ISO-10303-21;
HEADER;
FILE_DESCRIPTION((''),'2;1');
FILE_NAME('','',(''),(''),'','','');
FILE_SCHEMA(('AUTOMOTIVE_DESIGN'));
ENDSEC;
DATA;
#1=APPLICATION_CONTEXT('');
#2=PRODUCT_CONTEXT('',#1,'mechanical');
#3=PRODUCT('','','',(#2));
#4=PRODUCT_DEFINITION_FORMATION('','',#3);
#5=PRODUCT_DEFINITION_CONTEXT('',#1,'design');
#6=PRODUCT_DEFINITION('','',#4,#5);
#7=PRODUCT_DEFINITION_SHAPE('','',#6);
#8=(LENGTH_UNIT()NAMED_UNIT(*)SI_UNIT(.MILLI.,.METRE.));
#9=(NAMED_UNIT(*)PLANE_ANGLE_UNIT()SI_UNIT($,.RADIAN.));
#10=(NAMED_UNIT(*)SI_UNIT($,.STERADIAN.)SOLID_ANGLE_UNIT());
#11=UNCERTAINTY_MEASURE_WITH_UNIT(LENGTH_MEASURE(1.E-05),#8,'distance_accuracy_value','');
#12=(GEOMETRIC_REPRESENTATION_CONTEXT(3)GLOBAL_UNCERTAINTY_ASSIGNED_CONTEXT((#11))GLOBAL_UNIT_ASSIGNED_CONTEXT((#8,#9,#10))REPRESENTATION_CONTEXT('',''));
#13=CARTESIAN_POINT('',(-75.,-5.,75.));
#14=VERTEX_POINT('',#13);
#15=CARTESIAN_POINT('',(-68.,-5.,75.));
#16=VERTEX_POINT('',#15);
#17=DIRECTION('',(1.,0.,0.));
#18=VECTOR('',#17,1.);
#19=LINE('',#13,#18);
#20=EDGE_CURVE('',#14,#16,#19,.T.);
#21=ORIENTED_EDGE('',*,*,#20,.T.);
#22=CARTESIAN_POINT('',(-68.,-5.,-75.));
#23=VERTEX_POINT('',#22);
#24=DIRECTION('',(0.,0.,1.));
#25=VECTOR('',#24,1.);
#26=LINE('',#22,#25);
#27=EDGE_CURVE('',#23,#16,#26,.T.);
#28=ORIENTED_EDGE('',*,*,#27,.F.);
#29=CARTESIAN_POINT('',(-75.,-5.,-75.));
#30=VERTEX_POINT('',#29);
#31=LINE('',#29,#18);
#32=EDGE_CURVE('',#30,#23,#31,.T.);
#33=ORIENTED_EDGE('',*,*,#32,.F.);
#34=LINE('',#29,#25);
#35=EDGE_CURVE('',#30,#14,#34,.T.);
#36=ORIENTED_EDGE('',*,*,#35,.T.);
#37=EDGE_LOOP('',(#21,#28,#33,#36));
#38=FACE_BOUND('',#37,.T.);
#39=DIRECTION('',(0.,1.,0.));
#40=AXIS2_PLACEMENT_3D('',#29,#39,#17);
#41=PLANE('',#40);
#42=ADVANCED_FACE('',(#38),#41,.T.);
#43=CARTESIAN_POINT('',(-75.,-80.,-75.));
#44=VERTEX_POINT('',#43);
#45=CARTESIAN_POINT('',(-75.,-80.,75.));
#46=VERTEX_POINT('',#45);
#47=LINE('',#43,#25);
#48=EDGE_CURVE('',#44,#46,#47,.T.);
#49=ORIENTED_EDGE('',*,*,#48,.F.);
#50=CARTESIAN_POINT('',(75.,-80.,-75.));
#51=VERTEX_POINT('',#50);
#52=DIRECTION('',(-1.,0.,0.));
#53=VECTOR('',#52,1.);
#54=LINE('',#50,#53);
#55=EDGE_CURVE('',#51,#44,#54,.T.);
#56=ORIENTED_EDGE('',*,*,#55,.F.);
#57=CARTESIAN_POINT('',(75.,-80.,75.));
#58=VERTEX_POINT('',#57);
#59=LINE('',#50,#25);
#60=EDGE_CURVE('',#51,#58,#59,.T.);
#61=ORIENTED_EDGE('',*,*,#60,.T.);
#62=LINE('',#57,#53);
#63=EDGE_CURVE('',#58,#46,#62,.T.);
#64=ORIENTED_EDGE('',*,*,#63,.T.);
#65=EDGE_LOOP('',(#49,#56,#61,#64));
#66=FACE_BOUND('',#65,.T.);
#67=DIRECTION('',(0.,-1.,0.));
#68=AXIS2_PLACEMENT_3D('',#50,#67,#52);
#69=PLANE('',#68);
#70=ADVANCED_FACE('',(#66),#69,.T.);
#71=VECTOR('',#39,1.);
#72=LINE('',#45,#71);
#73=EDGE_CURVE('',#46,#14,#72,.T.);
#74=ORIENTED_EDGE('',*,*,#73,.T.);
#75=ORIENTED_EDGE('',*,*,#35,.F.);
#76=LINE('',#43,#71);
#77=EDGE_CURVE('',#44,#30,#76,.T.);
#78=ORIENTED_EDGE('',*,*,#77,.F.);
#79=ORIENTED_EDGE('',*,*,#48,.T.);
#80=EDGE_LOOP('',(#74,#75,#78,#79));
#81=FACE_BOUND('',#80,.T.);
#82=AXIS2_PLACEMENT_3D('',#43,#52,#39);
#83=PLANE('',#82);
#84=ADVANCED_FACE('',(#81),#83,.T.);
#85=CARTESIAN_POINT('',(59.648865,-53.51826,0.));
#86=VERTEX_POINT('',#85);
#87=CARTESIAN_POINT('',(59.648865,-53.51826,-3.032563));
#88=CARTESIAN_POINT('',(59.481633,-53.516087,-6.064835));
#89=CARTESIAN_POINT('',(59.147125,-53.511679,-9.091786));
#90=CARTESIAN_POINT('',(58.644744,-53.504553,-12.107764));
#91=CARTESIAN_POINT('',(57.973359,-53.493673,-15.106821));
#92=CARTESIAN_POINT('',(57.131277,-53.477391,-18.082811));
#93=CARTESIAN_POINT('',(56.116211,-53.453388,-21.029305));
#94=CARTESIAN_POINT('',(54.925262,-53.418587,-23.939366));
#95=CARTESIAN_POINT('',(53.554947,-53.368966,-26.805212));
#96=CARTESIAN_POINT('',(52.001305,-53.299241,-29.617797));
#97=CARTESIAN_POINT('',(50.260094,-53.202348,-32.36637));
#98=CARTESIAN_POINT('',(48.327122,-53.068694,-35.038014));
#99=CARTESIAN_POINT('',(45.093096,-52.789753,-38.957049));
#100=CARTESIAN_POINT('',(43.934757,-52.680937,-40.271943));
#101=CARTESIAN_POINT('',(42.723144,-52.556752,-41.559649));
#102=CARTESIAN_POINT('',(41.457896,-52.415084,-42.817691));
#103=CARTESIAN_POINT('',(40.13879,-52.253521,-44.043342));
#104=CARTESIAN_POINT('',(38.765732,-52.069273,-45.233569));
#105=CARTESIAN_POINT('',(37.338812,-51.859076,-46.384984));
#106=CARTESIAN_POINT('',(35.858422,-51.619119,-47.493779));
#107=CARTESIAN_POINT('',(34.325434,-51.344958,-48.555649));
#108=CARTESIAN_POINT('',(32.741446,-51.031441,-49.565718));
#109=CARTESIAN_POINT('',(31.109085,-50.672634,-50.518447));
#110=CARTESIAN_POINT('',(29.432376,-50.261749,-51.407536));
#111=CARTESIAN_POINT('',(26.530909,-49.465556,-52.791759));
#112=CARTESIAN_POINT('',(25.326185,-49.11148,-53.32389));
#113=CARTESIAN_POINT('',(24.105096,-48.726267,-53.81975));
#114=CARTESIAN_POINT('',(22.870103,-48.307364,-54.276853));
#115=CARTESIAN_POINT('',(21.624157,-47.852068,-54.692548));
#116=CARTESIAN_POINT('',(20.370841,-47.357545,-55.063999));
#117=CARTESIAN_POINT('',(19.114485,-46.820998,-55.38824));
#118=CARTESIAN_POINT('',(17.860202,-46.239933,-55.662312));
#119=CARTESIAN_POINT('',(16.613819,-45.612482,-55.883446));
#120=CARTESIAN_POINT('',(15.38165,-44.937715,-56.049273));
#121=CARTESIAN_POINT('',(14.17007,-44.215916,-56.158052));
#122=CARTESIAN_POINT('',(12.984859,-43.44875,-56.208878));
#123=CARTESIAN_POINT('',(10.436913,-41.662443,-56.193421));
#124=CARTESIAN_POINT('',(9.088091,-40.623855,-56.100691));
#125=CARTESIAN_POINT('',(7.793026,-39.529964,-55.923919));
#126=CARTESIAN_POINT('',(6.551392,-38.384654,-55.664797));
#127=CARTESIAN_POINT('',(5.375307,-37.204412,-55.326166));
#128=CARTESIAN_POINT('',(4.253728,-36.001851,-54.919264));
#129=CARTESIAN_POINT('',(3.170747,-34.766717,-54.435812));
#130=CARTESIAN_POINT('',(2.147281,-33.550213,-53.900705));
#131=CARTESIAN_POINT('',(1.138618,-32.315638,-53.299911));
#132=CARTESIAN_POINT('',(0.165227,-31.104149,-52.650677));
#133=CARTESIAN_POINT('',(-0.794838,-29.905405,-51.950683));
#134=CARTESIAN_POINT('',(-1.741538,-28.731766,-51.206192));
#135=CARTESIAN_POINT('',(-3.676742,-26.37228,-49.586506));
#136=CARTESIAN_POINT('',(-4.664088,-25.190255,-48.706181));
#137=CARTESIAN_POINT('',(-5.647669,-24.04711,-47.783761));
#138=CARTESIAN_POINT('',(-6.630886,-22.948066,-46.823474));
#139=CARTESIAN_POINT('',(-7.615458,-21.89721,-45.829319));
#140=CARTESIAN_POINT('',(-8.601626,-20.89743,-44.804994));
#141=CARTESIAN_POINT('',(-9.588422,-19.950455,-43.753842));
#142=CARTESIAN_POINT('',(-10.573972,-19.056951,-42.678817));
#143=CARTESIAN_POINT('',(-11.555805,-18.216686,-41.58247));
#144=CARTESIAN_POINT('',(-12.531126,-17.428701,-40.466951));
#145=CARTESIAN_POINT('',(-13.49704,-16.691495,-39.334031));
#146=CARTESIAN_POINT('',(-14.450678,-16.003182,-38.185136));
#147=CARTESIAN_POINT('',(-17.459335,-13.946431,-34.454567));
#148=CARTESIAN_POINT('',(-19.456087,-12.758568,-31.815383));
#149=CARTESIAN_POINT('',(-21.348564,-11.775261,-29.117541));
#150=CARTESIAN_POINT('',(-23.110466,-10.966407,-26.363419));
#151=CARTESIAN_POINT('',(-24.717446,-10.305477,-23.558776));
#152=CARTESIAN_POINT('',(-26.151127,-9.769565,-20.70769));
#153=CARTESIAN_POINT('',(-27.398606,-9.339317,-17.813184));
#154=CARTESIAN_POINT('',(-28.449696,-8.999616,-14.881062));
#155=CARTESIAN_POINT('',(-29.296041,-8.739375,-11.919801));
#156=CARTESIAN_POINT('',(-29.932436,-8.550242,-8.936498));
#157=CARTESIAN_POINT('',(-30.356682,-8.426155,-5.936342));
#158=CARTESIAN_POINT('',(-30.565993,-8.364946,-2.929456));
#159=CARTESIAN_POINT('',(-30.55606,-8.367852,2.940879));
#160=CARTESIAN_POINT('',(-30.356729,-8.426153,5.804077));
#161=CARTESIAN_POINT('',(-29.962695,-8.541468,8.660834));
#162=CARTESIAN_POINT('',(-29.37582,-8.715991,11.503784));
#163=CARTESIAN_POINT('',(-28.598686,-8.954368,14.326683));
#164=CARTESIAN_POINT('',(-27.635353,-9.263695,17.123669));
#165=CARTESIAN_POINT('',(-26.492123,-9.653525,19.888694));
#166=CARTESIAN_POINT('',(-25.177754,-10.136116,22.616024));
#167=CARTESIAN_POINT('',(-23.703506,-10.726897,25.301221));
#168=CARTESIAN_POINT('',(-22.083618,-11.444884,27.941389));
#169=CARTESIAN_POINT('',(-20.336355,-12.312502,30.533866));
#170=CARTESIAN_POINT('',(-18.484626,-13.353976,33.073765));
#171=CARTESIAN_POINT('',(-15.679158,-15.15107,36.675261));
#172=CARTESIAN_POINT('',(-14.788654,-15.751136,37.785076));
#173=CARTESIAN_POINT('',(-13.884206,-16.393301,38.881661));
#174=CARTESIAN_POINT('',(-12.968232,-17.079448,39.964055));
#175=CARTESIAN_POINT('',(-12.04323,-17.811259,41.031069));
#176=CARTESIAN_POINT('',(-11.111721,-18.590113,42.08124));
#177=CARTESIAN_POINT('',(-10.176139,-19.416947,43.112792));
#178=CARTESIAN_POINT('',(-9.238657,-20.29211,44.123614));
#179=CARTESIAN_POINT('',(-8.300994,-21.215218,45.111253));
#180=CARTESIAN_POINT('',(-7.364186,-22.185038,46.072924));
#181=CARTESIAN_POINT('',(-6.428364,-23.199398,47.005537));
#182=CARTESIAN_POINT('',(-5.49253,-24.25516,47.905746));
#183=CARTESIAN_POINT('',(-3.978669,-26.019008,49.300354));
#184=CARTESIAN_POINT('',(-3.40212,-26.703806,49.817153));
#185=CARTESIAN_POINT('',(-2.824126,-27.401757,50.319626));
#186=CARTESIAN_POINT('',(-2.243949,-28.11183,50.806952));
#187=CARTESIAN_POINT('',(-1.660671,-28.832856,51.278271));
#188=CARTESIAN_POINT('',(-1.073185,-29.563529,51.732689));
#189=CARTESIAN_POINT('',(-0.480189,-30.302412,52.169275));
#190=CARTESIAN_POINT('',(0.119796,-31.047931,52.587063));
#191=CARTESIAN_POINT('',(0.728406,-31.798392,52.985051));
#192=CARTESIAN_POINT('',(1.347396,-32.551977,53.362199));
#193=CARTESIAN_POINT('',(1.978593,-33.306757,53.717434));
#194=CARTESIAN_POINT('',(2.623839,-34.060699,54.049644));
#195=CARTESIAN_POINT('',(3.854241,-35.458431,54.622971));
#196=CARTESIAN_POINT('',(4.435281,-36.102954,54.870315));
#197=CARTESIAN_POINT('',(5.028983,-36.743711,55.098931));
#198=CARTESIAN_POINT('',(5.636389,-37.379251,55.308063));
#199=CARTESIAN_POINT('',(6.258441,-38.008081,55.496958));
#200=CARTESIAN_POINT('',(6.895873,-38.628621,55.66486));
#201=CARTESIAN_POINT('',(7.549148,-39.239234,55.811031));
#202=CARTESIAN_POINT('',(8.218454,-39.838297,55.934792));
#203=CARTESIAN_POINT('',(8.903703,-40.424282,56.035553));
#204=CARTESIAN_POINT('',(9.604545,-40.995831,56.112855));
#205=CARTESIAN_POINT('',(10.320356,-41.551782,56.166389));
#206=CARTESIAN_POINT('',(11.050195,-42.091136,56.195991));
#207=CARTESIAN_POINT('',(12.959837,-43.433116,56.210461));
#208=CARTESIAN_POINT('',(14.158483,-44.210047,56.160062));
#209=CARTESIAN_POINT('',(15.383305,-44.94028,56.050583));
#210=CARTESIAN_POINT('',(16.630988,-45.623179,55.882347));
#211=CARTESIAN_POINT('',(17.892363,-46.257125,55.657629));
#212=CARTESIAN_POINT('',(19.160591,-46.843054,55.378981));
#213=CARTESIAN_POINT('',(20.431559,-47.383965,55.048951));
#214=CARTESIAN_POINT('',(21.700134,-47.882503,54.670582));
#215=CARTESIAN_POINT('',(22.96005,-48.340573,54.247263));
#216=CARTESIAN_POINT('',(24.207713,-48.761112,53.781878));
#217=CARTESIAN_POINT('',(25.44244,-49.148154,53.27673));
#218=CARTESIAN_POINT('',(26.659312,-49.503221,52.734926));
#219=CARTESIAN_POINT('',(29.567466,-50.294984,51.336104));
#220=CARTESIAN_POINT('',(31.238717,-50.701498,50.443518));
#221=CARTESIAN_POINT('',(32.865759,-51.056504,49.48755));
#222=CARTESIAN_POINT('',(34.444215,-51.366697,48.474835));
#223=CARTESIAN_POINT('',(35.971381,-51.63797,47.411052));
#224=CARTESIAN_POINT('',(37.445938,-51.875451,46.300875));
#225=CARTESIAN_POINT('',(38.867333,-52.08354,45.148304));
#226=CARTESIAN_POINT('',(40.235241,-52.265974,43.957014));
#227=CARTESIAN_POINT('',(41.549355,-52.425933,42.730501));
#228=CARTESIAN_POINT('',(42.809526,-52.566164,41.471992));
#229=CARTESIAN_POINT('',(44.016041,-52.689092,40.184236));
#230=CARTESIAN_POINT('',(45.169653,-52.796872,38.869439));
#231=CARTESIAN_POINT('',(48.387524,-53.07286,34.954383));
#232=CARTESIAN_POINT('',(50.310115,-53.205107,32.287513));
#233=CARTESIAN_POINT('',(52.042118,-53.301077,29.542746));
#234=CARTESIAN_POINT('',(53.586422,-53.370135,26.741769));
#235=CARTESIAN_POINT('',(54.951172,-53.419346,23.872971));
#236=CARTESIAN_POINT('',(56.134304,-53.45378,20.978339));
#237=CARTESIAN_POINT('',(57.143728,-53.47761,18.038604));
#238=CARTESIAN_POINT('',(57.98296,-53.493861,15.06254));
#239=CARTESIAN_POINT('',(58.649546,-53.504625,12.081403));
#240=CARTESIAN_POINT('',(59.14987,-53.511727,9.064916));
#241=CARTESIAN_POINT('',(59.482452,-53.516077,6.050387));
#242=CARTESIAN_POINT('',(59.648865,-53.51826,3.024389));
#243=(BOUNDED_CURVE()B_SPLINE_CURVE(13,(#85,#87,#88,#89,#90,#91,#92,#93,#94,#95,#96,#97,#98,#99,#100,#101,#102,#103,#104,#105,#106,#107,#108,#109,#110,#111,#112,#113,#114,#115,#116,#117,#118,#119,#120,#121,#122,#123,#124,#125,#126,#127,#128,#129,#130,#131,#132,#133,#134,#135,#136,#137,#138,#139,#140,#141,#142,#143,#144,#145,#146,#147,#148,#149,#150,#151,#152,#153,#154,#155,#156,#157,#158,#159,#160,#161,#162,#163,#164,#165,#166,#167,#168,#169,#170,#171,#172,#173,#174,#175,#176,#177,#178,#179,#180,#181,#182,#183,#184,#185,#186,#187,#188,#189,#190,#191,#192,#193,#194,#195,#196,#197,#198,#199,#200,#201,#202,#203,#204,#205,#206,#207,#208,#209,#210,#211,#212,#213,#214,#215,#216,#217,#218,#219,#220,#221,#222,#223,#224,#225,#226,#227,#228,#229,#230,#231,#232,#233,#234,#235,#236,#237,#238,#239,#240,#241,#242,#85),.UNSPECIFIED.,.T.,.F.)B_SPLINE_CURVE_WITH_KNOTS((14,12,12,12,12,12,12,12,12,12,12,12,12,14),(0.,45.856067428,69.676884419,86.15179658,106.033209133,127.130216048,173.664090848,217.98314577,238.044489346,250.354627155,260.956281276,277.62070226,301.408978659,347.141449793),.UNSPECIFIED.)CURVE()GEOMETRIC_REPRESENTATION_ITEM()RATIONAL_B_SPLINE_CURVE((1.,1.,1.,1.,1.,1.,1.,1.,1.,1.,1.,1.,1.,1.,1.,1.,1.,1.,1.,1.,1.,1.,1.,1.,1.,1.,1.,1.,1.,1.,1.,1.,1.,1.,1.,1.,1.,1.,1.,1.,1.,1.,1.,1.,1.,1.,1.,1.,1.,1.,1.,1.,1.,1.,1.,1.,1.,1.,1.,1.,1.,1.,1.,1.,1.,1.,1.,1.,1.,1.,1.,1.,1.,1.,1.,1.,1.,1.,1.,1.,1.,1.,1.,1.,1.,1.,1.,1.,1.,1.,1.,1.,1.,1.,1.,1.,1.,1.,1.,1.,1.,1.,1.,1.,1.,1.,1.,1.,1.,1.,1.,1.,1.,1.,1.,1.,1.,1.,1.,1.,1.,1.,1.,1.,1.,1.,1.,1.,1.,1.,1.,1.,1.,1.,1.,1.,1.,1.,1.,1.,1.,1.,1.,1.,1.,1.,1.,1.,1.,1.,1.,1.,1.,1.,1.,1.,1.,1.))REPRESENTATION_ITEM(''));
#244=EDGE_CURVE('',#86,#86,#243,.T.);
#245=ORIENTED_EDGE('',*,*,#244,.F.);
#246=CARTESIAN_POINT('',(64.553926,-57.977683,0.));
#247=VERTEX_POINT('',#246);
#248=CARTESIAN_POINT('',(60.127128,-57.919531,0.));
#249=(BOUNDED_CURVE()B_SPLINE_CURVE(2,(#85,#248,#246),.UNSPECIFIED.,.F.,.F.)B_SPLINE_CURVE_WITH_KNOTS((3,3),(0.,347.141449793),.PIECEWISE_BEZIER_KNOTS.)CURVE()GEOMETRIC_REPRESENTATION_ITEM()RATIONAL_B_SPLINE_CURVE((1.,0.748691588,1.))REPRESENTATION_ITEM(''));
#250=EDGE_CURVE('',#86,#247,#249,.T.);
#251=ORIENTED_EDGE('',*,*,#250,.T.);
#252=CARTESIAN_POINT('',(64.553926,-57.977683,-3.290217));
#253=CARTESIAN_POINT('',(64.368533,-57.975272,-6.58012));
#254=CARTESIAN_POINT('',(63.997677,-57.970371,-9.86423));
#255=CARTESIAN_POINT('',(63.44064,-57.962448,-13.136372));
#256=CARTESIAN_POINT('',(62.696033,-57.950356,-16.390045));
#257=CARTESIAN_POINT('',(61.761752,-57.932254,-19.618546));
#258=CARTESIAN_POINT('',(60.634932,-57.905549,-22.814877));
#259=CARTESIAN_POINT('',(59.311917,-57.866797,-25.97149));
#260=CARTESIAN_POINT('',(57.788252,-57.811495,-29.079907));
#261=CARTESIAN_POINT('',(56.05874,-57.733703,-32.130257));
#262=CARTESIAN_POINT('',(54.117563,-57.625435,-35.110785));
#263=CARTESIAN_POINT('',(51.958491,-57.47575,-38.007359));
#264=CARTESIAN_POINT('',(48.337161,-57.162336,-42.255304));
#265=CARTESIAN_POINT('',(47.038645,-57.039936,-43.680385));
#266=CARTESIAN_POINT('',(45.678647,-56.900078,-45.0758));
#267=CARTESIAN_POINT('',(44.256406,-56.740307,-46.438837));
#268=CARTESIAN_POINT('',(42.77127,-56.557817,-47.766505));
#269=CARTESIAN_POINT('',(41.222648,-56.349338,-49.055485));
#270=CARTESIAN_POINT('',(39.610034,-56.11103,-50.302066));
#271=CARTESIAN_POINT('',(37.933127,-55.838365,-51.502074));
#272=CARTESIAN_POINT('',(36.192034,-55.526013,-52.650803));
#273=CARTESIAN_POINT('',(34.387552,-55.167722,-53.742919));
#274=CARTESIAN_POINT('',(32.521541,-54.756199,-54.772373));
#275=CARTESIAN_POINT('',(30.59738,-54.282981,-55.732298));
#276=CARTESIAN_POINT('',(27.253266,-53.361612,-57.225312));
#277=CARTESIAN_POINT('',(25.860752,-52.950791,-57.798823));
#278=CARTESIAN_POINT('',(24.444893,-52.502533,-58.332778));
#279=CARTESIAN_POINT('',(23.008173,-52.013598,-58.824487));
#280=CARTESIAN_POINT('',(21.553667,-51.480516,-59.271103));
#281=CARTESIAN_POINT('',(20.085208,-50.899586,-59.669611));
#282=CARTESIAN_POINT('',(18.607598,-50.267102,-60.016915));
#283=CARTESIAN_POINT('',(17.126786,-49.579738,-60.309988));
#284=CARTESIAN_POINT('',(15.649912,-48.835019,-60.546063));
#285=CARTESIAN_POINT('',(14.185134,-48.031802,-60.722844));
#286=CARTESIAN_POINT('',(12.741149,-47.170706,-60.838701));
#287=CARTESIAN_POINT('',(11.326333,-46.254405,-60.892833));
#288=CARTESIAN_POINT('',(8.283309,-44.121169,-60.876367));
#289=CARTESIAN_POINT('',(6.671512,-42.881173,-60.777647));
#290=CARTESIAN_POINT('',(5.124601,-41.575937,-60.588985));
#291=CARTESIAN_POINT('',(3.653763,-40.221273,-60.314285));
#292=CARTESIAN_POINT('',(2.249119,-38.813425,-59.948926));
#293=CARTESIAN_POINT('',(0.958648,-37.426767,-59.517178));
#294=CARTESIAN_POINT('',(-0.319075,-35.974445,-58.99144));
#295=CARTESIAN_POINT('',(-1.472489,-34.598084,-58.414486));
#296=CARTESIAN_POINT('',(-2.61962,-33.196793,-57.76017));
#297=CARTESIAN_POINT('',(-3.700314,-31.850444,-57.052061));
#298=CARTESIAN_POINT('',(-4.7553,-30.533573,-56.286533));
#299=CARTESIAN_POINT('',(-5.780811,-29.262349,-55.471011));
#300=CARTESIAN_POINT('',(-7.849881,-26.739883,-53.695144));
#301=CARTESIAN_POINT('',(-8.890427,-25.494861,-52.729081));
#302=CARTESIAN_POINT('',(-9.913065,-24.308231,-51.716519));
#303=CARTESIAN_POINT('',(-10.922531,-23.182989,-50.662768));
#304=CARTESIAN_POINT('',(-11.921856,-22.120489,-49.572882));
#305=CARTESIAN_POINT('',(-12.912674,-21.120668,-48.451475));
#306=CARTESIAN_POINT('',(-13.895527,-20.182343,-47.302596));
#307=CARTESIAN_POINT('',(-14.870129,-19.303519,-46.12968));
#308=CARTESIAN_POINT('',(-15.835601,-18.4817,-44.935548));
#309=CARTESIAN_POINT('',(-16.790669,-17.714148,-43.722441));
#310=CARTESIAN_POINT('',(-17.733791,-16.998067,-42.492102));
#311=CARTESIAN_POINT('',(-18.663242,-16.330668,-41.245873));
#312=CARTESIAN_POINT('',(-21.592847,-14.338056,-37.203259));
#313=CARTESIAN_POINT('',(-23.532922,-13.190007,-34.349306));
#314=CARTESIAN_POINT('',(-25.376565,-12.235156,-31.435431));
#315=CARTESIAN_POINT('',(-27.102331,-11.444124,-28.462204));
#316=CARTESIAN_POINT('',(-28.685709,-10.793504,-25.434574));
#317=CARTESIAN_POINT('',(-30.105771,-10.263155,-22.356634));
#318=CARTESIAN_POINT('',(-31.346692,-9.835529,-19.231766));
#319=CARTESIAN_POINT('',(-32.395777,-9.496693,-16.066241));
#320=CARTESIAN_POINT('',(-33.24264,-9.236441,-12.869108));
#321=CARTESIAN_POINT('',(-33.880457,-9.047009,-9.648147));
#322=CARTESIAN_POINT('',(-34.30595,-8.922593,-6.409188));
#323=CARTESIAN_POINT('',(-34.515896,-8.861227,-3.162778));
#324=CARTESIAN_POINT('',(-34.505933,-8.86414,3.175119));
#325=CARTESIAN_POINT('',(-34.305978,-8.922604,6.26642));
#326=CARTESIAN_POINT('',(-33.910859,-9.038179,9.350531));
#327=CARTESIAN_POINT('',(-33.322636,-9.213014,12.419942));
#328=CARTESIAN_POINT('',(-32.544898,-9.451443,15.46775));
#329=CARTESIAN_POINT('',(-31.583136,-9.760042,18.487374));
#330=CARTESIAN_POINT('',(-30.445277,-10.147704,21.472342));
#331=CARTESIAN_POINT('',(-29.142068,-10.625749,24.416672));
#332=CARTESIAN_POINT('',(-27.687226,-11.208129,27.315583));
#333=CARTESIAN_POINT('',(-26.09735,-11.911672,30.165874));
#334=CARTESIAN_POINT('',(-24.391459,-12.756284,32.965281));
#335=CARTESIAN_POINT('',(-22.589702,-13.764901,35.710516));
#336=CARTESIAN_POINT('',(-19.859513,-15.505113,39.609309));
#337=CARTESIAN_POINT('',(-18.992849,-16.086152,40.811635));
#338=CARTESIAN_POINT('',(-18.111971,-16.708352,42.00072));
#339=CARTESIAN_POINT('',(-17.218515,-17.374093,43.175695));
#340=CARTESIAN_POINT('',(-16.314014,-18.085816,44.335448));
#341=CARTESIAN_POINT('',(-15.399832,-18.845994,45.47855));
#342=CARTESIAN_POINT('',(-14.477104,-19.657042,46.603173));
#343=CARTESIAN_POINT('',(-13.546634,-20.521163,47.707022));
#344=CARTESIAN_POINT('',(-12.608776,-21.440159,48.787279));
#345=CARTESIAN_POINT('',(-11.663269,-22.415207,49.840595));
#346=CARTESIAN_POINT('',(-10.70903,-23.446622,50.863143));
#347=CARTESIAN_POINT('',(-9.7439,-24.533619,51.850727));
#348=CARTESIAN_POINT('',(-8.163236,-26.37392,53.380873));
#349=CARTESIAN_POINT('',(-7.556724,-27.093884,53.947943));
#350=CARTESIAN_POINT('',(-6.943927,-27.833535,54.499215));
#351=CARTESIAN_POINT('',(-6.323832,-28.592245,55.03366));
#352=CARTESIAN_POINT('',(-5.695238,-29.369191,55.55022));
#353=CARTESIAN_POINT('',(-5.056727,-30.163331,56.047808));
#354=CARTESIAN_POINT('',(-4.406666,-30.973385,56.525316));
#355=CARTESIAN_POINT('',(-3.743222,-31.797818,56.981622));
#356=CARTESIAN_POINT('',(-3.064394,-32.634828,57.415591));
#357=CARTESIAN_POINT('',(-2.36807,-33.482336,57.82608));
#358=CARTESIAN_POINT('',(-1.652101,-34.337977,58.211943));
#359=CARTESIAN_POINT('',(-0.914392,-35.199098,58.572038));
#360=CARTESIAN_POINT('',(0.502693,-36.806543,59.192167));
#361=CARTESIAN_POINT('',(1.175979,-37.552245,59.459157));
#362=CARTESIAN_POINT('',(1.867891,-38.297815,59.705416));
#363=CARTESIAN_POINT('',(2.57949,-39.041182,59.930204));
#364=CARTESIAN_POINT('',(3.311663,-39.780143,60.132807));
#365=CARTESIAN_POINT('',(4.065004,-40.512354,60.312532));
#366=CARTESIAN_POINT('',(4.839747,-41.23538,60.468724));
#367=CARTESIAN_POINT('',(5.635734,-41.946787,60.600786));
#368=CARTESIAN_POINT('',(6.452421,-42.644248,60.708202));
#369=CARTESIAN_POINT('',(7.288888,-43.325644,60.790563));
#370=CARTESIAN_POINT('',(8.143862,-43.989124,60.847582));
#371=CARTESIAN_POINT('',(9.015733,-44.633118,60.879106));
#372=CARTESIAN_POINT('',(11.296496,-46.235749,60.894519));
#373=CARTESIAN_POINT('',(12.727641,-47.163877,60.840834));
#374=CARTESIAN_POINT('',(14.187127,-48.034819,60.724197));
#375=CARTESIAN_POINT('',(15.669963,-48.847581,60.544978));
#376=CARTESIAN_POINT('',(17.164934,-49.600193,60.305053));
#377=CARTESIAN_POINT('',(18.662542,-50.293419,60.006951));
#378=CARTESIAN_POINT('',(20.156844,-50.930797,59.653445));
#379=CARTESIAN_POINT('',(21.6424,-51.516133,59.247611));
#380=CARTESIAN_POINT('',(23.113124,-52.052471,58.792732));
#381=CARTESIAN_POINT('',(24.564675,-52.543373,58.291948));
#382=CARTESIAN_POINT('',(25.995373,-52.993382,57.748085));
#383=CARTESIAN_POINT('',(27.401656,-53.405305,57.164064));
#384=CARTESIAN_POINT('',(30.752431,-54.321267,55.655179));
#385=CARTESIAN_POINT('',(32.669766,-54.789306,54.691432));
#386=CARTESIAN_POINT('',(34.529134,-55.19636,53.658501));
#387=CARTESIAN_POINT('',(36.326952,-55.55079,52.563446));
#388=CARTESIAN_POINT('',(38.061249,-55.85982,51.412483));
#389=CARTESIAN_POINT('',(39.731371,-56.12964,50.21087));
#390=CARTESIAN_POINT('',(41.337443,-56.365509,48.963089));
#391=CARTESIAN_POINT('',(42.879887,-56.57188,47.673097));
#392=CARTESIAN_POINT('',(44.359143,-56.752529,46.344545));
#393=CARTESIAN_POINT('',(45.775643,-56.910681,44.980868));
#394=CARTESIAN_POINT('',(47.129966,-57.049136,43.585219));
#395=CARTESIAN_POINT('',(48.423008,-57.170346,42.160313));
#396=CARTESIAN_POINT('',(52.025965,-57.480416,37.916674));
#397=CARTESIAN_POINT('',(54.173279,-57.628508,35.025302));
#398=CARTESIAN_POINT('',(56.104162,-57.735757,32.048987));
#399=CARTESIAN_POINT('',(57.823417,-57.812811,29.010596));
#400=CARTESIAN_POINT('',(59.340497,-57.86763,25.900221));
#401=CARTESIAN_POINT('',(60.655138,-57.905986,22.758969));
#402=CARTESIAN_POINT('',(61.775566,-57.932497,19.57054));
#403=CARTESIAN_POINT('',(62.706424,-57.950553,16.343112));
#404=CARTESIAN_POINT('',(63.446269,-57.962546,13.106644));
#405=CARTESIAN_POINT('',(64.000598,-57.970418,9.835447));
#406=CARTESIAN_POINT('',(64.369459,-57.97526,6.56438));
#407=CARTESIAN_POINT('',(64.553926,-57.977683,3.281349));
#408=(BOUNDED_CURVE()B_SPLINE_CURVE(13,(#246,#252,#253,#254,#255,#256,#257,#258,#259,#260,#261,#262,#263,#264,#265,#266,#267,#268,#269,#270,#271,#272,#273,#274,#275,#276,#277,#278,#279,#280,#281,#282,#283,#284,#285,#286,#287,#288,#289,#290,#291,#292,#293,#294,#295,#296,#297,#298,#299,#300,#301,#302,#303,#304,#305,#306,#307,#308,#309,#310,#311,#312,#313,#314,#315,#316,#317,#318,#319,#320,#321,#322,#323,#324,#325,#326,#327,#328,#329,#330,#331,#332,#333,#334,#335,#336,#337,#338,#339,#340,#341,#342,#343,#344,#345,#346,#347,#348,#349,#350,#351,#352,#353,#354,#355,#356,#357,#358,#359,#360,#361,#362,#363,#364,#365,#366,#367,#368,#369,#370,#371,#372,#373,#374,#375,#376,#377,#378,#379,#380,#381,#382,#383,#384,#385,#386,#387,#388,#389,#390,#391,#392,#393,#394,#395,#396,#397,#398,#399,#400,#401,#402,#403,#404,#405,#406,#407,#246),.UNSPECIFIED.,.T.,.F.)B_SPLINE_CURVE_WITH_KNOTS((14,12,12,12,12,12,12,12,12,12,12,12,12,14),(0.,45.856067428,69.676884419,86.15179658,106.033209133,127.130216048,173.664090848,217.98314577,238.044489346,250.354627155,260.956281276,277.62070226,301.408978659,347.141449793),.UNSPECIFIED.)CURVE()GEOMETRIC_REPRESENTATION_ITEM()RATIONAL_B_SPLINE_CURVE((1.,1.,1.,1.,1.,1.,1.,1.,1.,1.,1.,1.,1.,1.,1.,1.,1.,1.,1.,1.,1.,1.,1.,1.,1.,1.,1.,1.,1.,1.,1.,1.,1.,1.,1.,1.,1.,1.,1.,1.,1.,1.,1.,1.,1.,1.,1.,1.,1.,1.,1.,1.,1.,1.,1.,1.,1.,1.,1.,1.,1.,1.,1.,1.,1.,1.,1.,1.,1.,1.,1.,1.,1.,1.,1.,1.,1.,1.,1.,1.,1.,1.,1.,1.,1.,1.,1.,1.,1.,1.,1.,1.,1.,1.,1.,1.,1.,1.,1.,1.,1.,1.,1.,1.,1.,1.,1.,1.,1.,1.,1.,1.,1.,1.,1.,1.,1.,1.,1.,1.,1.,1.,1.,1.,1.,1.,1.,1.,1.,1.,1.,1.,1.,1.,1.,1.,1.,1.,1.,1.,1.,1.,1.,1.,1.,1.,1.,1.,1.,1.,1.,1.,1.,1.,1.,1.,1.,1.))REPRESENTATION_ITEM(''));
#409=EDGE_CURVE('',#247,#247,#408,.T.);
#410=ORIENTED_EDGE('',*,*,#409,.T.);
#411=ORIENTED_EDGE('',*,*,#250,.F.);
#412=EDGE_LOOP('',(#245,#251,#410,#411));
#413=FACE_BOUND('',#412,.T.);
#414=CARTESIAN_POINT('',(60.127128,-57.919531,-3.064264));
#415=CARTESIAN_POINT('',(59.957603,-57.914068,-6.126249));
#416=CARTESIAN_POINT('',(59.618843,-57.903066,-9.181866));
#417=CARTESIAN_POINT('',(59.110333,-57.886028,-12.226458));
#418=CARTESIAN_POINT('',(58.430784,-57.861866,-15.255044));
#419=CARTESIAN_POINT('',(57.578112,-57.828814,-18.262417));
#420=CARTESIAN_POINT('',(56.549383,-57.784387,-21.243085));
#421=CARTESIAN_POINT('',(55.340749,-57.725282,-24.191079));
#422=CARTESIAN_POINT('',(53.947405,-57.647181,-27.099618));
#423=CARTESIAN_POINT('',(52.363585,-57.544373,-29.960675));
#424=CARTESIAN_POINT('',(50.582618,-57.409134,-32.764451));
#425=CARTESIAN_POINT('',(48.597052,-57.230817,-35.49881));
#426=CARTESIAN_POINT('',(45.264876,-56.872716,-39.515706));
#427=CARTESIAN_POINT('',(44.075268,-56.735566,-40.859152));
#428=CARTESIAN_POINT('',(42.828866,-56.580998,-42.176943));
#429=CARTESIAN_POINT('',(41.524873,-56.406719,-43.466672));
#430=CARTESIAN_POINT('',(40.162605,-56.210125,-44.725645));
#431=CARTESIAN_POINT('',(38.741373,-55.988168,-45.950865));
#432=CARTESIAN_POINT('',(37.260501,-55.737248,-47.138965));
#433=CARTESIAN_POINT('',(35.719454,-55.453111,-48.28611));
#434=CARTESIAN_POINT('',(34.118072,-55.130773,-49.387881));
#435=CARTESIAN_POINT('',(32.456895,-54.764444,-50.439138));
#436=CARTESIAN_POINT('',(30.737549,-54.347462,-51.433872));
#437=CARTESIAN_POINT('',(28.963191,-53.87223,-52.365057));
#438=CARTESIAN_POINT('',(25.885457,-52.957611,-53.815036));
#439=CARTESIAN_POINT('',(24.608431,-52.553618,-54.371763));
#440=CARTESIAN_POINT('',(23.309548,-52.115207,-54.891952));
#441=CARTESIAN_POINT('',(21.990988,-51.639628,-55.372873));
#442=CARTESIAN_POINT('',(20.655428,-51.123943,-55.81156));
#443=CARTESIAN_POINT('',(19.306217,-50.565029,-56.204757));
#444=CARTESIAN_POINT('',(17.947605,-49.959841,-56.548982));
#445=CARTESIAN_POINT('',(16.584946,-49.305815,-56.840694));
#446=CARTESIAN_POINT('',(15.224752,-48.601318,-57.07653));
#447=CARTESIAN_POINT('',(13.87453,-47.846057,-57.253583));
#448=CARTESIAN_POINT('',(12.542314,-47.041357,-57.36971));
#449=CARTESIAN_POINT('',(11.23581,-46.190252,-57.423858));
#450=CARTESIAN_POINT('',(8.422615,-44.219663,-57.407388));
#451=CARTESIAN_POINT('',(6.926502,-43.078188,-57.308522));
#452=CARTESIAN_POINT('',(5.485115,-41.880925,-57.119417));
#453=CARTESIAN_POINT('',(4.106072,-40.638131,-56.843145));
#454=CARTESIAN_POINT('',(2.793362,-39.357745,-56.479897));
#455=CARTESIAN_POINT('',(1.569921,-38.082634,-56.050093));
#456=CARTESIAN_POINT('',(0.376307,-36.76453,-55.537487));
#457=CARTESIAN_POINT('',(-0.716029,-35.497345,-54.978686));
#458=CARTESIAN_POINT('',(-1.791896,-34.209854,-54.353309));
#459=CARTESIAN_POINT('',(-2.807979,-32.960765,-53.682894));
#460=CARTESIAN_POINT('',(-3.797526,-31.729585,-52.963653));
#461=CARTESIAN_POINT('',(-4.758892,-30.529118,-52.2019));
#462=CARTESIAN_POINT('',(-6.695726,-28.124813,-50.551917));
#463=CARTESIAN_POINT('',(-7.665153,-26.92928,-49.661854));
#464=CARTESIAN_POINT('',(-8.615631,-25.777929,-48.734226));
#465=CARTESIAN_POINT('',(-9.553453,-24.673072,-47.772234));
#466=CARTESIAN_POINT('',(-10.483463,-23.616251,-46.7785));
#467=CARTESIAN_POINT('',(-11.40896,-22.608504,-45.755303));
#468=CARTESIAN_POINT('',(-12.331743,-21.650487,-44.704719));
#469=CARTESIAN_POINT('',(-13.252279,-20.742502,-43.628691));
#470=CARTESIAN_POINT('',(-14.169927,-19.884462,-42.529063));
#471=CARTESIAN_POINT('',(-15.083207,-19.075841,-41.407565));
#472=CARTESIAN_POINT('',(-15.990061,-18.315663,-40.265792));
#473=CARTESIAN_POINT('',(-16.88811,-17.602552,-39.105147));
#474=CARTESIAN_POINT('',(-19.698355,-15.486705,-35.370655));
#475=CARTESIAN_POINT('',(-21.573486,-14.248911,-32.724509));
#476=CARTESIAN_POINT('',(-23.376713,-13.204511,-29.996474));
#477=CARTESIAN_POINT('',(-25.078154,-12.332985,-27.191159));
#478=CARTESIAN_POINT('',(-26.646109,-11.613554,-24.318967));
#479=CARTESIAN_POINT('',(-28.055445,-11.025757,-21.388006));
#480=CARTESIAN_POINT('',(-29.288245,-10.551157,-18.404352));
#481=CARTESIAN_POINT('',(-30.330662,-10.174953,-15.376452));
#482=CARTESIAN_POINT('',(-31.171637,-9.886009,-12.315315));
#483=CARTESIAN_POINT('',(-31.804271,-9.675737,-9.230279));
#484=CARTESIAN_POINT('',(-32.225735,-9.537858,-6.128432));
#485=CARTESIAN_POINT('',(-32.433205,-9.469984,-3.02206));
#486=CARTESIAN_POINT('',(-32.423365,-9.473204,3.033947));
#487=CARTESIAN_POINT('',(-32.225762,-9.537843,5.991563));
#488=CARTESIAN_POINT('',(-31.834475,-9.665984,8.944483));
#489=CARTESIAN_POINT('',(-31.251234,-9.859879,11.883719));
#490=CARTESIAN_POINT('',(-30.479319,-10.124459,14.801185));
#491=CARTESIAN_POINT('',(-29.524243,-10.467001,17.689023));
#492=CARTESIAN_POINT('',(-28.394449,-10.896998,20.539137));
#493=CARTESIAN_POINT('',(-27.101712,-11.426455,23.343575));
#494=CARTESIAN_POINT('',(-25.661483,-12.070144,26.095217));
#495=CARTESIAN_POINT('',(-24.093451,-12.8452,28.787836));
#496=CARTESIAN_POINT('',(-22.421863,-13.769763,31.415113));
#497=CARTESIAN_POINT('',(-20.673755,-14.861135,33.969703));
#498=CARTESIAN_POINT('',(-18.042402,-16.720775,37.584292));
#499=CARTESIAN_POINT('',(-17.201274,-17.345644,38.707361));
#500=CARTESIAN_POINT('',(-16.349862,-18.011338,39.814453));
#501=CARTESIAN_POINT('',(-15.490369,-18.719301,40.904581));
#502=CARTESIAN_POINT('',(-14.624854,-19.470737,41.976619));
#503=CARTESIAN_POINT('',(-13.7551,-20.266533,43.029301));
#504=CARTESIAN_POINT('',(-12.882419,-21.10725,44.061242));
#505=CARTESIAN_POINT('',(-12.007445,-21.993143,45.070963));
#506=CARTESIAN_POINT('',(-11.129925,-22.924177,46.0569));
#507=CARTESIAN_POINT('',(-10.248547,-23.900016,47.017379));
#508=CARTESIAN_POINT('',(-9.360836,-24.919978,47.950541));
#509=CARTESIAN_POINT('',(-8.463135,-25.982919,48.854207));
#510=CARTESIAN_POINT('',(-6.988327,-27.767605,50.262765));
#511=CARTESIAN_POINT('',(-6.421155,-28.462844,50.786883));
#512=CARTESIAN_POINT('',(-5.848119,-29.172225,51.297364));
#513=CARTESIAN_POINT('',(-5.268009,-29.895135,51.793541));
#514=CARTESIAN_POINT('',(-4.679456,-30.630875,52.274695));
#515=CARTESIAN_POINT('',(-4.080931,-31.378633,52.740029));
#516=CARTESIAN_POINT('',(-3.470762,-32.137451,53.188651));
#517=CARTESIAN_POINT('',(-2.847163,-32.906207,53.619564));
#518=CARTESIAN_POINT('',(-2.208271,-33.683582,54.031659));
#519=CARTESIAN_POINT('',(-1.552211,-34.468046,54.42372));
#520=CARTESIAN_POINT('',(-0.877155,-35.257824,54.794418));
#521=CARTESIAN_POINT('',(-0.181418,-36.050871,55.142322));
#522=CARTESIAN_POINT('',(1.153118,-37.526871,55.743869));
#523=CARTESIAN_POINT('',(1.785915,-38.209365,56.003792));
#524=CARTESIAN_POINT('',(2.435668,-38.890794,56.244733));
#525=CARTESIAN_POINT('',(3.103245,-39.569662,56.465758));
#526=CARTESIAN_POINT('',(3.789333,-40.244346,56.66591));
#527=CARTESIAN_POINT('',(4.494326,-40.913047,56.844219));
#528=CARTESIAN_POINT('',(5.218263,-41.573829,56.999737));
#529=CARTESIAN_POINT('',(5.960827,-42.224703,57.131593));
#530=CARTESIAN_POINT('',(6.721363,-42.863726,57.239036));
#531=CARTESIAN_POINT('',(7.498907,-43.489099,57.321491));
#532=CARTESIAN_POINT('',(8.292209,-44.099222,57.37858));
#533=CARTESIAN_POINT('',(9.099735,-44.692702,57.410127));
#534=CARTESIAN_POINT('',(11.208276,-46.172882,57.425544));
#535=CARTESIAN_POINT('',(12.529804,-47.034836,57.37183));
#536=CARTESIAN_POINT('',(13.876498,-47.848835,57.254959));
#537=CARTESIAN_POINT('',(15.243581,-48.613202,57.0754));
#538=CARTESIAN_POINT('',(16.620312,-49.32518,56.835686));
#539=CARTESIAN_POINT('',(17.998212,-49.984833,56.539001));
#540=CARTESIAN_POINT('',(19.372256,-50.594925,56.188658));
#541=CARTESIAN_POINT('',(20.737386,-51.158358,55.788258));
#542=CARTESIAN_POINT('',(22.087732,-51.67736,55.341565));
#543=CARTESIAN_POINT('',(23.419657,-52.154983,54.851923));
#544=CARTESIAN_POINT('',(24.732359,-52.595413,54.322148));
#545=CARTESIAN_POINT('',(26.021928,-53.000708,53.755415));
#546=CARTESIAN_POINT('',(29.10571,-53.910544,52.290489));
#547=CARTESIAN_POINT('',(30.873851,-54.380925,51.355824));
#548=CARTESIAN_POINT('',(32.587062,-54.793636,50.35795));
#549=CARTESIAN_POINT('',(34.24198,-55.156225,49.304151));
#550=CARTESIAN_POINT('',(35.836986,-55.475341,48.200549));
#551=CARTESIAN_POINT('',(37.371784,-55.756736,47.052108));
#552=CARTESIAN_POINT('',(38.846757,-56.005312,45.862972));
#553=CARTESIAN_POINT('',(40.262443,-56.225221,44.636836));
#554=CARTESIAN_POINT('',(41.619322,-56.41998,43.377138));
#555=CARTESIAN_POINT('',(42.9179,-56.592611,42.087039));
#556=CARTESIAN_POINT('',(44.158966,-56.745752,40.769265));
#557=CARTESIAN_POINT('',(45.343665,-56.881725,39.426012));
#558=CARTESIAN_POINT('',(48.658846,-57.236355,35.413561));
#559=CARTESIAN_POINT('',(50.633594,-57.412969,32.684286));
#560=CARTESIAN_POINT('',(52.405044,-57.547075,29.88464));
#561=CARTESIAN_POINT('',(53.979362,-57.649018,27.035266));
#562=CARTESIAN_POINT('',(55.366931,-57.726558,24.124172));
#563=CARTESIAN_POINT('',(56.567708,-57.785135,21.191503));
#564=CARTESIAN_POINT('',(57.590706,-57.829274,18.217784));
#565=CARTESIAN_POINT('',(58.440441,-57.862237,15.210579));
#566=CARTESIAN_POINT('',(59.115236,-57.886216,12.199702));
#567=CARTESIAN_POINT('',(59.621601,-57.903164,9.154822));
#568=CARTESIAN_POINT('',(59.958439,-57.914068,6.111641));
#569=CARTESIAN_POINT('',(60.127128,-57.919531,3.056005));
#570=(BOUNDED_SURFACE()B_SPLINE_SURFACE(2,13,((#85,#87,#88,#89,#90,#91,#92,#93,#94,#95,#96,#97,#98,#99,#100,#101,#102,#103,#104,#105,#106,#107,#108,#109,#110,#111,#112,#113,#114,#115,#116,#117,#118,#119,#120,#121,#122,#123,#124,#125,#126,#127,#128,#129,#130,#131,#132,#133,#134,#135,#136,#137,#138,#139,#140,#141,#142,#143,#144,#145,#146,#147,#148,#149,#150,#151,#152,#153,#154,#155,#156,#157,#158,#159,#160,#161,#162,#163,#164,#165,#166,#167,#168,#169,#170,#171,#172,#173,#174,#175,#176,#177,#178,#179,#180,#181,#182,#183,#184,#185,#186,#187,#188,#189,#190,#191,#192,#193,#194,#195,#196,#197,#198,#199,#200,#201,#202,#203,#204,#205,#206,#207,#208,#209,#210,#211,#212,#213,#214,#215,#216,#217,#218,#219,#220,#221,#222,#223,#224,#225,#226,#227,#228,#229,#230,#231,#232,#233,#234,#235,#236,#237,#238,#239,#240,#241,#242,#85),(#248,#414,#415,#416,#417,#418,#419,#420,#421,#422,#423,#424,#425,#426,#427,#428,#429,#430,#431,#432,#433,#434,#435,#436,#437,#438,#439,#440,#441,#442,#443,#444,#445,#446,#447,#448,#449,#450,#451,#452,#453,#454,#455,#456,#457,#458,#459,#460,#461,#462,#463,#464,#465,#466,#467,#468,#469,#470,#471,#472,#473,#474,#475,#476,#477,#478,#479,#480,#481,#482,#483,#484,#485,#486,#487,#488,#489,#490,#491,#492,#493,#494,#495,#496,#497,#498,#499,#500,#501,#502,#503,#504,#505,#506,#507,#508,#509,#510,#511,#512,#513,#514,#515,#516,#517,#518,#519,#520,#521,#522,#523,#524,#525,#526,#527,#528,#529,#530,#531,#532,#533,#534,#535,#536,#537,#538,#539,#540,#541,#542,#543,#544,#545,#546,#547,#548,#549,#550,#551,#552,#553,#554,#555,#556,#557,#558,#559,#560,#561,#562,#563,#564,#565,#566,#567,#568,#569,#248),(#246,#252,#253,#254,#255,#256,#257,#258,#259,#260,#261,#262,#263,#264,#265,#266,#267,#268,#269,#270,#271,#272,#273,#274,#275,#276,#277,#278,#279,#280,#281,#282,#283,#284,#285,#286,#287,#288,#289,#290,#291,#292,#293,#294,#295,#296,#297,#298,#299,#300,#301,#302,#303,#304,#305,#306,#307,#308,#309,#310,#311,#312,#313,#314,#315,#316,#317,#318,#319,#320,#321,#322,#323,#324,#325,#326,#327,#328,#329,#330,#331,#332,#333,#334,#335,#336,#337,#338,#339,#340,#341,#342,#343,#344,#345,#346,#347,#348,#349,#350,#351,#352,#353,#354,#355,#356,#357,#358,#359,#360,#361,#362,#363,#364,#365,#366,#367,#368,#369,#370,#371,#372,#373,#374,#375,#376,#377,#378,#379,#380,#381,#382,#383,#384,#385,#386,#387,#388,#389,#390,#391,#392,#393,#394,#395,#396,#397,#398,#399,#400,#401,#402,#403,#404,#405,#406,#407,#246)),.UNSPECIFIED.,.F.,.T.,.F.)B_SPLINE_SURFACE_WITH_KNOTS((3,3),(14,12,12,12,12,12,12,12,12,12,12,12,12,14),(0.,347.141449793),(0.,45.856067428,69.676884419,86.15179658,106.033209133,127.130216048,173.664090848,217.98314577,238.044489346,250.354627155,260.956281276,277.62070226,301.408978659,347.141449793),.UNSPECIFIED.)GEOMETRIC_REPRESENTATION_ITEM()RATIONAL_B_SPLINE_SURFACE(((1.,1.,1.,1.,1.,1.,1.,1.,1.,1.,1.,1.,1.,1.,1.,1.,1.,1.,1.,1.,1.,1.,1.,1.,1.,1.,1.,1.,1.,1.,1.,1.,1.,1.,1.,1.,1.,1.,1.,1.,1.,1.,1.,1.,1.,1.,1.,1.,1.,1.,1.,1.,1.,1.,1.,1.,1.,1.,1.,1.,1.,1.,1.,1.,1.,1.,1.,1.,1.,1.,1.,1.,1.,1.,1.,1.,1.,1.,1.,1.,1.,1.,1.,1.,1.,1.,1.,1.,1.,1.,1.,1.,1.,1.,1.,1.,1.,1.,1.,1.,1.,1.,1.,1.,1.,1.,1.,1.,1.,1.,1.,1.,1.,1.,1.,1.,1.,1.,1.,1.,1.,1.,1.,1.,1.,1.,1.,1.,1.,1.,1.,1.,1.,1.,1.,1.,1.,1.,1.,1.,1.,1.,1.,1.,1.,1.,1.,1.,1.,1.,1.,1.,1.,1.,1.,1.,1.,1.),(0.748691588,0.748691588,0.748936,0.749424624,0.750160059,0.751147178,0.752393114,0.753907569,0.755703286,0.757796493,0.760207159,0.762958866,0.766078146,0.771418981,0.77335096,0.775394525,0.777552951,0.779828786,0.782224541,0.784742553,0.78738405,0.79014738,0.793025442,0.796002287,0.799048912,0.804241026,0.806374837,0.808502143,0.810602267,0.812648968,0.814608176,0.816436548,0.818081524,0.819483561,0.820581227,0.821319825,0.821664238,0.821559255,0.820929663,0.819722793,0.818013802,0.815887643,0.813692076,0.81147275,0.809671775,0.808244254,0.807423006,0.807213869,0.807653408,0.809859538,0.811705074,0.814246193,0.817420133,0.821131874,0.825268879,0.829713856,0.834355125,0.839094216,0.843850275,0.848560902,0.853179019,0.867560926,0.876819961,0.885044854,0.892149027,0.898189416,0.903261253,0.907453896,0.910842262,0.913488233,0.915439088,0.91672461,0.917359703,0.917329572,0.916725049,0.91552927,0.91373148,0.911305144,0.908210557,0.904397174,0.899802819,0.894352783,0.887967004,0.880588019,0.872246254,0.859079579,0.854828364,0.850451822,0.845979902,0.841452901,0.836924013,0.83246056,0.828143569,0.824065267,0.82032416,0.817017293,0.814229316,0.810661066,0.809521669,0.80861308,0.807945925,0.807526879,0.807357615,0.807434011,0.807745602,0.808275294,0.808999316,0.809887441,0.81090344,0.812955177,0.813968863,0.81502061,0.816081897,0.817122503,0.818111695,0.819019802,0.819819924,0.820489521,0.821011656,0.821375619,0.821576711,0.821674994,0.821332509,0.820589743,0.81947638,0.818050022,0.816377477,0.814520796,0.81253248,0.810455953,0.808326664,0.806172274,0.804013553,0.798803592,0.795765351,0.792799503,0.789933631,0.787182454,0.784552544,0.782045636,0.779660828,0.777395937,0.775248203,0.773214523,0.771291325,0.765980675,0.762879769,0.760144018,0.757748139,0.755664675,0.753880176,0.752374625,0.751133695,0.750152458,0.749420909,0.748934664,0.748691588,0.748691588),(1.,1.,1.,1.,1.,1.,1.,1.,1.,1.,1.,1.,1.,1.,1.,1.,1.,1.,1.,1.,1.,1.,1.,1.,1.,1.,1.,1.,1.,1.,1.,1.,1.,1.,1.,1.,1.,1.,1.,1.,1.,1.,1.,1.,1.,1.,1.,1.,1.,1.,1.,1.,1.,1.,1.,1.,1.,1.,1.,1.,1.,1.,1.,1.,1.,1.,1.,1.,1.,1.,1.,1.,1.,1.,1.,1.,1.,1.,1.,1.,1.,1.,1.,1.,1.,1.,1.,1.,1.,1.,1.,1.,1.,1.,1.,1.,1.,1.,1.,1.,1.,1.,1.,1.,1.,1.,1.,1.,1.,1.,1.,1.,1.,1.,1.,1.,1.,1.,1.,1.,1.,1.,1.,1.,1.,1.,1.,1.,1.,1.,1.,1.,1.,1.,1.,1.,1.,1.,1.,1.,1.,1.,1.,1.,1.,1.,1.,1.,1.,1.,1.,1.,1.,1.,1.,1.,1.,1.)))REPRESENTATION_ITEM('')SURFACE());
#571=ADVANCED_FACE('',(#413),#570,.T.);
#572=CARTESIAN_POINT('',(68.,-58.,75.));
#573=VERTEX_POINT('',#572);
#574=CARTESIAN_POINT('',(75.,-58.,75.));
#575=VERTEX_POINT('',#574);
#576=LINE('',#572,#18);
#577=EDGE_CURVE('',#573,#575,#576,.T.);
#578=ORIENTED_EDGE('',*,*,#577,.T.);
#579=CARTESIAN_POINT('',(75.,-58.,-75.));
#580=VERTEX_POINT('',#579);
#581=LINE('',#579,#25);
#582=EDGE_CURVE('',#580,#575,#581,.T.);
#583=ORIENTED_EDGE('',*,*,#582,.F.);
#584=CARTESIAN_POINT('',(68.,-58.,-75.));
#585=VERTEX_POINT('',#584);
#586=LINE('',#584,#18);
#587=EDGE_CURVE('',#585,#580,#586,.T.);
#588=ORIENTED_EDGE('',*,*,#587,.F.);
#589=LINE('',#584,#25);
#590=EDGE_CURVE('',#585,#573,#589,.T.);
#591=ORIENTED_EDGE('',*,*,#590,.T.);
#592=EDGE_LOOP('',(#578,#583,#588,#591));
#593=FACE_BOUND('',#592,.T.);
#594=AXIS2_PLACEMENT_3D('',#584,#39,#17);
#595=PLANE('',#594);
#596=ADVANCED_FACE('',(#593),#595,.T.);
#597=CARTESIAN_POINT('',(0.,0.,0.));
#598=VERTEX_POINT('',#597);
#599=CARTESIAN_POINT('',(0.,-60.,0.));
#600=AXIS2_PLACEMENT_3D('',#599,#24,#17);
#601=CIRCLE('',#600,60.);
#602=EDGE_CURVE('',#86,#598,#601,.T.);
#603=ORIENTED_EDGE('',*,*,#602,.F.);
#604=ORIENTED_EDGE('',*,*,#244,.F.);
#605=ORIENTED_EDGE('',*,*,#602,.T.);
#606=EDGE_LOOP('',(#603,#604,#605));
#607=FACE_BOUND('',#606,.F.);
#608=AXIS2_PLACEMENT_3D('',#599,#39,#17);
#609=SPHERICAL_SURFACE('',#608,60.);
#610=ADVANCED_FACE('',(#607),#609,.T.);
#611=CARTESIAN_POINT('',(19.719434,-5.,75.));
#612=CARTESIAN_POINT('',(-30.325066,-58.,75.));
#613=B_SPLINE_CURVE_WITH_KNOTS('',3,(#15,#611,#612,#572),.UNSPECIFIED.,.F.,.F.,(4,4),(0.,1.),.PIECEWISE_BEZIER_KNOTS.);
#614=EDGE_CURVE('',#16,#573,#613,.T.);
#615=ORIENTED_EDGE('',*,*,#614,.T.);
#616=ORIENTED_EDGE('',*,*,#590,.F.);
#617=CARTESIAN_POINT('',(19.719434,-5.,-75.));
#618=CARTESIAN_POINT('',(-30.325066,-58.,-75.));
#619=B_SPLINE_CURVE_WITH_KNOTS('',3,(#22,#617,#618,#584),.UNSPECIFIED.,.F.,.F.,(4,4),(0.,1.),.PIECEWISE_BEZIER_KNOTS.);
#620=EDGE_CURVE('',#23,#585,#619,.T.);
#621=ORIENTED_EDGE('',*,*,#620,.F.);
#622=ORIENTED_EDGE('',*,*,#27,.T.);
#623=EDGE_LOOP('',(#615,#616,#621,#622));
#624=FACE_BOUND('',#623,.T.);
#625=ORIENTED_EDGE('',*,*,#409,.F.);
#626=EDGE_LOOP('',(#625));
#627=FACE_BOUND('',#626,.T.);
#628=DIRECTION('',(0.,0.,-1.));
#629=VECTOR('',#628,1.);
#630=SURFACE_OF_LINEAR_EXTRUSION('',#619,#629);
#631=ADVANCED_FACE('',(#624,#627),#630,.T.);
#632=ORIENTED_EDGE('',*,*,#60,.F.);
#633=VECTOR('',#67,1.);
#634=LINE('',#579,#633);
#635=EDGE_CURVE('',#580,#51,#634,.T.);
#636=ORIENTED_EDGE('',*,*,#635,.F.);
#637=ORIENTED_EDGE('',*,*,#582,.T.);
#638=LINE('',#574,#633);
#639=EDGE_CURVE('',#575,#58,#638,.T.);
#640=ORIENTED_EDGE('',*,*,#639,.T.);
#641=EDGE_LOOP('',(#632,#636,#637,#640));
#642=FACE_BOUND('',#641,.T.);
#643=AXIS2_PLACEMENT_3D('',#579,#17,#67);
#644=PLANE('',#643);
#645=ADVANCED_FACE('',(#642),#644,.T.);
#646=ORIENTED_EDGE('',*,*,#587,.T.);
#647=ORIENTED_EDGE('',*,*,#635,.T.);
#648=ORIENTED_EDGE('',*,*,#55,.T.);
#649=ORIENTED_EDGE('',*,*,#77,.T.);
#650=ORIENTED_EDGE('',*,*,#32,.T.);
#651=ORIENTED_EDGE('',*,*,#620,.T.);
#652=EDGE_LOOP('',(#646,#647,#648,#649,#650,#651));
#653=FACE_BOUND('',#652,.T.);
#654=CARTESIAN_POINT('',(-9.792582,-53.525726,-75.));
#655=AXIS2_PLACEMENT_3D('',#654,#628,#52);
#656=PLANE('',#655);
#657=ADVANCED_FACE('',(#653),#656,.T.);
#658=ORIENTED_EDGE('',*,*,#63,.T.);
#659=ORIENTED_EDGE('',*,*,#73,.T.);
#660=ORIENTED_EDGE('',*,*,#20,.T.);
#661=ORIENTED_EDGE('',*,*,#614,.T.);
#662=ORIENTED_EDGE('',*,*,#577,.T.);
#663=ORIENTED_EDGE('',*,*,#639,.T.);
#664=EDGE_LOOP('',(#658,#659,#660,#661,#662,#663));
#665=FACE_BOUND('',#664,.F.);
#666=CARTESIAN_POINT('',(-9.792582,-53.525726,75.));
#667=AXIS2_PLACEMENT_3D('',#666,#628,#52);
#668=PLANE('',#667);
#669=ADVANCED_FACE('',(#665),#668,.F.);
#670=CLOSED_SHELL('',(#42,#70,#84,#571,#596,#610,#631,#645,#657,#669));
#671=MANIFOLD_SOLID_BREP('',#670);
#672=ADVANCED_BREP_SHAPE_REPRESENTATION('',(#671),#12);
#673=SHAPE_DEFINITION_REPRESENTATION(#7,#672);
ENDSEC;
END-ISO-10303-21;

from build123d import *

# Parameters (mm, degrees)
EXTRUDE1_DEPTH      = 75
EXTRUDE1_DEPTH_BACK = 75
FILLET2_R           = 5


with BuildPart() as part:
    # Sketch1 → Extrude1 (new, two sides: drawn at the far end of the back side and taken through both)
    with BuildSketch(Plane.XY.offset(-EXTRUDE1_DEPTH_BACK)):
        with BuildLine():
            Line((68, -58), (75, -58))
            Line((75, -58), (75, -80))
            Line((75, -80), (-75, -80))
            Line((-75, -80), (-75, -5))
            Line((-75, -5), (-68, -5))
            add(Edge.make_bspline(
                [(-68, -5), (19.719434236, -5), (-30.32506556, -58), (68, -58)],
                knots=[0, 0, 0, 0, 1, 1, 1, 1], degree=3))
        make_face()
    extrude(amount=EXTRUDE1_DEPTH + EXTRUDE1_DEPTH_BACK)

    # Sketch2 → Revolve1 (revolve)
    with BuildSketch(Plane.XY):
        with BuildLine():
            Line((0, -60), (60, -60))
            ThreePointArc((60, -60), (42.426406871, -17.573593129), (0, 0))
            Line((0, 0), (0, -60))
        make_face()
    revolve(axis=Axis((0, 11.185160428, 0), (0, -1, 0)))

    # Fillet2
    fillet2_edges = [part.edges().sort_by_distance(p)[0] for p in [
        (9.137379972, -44.707678169, -57.294442834),
    ]]
    fillet(fillet2_edges, radius=FILLET2_R)


solid = part.part
